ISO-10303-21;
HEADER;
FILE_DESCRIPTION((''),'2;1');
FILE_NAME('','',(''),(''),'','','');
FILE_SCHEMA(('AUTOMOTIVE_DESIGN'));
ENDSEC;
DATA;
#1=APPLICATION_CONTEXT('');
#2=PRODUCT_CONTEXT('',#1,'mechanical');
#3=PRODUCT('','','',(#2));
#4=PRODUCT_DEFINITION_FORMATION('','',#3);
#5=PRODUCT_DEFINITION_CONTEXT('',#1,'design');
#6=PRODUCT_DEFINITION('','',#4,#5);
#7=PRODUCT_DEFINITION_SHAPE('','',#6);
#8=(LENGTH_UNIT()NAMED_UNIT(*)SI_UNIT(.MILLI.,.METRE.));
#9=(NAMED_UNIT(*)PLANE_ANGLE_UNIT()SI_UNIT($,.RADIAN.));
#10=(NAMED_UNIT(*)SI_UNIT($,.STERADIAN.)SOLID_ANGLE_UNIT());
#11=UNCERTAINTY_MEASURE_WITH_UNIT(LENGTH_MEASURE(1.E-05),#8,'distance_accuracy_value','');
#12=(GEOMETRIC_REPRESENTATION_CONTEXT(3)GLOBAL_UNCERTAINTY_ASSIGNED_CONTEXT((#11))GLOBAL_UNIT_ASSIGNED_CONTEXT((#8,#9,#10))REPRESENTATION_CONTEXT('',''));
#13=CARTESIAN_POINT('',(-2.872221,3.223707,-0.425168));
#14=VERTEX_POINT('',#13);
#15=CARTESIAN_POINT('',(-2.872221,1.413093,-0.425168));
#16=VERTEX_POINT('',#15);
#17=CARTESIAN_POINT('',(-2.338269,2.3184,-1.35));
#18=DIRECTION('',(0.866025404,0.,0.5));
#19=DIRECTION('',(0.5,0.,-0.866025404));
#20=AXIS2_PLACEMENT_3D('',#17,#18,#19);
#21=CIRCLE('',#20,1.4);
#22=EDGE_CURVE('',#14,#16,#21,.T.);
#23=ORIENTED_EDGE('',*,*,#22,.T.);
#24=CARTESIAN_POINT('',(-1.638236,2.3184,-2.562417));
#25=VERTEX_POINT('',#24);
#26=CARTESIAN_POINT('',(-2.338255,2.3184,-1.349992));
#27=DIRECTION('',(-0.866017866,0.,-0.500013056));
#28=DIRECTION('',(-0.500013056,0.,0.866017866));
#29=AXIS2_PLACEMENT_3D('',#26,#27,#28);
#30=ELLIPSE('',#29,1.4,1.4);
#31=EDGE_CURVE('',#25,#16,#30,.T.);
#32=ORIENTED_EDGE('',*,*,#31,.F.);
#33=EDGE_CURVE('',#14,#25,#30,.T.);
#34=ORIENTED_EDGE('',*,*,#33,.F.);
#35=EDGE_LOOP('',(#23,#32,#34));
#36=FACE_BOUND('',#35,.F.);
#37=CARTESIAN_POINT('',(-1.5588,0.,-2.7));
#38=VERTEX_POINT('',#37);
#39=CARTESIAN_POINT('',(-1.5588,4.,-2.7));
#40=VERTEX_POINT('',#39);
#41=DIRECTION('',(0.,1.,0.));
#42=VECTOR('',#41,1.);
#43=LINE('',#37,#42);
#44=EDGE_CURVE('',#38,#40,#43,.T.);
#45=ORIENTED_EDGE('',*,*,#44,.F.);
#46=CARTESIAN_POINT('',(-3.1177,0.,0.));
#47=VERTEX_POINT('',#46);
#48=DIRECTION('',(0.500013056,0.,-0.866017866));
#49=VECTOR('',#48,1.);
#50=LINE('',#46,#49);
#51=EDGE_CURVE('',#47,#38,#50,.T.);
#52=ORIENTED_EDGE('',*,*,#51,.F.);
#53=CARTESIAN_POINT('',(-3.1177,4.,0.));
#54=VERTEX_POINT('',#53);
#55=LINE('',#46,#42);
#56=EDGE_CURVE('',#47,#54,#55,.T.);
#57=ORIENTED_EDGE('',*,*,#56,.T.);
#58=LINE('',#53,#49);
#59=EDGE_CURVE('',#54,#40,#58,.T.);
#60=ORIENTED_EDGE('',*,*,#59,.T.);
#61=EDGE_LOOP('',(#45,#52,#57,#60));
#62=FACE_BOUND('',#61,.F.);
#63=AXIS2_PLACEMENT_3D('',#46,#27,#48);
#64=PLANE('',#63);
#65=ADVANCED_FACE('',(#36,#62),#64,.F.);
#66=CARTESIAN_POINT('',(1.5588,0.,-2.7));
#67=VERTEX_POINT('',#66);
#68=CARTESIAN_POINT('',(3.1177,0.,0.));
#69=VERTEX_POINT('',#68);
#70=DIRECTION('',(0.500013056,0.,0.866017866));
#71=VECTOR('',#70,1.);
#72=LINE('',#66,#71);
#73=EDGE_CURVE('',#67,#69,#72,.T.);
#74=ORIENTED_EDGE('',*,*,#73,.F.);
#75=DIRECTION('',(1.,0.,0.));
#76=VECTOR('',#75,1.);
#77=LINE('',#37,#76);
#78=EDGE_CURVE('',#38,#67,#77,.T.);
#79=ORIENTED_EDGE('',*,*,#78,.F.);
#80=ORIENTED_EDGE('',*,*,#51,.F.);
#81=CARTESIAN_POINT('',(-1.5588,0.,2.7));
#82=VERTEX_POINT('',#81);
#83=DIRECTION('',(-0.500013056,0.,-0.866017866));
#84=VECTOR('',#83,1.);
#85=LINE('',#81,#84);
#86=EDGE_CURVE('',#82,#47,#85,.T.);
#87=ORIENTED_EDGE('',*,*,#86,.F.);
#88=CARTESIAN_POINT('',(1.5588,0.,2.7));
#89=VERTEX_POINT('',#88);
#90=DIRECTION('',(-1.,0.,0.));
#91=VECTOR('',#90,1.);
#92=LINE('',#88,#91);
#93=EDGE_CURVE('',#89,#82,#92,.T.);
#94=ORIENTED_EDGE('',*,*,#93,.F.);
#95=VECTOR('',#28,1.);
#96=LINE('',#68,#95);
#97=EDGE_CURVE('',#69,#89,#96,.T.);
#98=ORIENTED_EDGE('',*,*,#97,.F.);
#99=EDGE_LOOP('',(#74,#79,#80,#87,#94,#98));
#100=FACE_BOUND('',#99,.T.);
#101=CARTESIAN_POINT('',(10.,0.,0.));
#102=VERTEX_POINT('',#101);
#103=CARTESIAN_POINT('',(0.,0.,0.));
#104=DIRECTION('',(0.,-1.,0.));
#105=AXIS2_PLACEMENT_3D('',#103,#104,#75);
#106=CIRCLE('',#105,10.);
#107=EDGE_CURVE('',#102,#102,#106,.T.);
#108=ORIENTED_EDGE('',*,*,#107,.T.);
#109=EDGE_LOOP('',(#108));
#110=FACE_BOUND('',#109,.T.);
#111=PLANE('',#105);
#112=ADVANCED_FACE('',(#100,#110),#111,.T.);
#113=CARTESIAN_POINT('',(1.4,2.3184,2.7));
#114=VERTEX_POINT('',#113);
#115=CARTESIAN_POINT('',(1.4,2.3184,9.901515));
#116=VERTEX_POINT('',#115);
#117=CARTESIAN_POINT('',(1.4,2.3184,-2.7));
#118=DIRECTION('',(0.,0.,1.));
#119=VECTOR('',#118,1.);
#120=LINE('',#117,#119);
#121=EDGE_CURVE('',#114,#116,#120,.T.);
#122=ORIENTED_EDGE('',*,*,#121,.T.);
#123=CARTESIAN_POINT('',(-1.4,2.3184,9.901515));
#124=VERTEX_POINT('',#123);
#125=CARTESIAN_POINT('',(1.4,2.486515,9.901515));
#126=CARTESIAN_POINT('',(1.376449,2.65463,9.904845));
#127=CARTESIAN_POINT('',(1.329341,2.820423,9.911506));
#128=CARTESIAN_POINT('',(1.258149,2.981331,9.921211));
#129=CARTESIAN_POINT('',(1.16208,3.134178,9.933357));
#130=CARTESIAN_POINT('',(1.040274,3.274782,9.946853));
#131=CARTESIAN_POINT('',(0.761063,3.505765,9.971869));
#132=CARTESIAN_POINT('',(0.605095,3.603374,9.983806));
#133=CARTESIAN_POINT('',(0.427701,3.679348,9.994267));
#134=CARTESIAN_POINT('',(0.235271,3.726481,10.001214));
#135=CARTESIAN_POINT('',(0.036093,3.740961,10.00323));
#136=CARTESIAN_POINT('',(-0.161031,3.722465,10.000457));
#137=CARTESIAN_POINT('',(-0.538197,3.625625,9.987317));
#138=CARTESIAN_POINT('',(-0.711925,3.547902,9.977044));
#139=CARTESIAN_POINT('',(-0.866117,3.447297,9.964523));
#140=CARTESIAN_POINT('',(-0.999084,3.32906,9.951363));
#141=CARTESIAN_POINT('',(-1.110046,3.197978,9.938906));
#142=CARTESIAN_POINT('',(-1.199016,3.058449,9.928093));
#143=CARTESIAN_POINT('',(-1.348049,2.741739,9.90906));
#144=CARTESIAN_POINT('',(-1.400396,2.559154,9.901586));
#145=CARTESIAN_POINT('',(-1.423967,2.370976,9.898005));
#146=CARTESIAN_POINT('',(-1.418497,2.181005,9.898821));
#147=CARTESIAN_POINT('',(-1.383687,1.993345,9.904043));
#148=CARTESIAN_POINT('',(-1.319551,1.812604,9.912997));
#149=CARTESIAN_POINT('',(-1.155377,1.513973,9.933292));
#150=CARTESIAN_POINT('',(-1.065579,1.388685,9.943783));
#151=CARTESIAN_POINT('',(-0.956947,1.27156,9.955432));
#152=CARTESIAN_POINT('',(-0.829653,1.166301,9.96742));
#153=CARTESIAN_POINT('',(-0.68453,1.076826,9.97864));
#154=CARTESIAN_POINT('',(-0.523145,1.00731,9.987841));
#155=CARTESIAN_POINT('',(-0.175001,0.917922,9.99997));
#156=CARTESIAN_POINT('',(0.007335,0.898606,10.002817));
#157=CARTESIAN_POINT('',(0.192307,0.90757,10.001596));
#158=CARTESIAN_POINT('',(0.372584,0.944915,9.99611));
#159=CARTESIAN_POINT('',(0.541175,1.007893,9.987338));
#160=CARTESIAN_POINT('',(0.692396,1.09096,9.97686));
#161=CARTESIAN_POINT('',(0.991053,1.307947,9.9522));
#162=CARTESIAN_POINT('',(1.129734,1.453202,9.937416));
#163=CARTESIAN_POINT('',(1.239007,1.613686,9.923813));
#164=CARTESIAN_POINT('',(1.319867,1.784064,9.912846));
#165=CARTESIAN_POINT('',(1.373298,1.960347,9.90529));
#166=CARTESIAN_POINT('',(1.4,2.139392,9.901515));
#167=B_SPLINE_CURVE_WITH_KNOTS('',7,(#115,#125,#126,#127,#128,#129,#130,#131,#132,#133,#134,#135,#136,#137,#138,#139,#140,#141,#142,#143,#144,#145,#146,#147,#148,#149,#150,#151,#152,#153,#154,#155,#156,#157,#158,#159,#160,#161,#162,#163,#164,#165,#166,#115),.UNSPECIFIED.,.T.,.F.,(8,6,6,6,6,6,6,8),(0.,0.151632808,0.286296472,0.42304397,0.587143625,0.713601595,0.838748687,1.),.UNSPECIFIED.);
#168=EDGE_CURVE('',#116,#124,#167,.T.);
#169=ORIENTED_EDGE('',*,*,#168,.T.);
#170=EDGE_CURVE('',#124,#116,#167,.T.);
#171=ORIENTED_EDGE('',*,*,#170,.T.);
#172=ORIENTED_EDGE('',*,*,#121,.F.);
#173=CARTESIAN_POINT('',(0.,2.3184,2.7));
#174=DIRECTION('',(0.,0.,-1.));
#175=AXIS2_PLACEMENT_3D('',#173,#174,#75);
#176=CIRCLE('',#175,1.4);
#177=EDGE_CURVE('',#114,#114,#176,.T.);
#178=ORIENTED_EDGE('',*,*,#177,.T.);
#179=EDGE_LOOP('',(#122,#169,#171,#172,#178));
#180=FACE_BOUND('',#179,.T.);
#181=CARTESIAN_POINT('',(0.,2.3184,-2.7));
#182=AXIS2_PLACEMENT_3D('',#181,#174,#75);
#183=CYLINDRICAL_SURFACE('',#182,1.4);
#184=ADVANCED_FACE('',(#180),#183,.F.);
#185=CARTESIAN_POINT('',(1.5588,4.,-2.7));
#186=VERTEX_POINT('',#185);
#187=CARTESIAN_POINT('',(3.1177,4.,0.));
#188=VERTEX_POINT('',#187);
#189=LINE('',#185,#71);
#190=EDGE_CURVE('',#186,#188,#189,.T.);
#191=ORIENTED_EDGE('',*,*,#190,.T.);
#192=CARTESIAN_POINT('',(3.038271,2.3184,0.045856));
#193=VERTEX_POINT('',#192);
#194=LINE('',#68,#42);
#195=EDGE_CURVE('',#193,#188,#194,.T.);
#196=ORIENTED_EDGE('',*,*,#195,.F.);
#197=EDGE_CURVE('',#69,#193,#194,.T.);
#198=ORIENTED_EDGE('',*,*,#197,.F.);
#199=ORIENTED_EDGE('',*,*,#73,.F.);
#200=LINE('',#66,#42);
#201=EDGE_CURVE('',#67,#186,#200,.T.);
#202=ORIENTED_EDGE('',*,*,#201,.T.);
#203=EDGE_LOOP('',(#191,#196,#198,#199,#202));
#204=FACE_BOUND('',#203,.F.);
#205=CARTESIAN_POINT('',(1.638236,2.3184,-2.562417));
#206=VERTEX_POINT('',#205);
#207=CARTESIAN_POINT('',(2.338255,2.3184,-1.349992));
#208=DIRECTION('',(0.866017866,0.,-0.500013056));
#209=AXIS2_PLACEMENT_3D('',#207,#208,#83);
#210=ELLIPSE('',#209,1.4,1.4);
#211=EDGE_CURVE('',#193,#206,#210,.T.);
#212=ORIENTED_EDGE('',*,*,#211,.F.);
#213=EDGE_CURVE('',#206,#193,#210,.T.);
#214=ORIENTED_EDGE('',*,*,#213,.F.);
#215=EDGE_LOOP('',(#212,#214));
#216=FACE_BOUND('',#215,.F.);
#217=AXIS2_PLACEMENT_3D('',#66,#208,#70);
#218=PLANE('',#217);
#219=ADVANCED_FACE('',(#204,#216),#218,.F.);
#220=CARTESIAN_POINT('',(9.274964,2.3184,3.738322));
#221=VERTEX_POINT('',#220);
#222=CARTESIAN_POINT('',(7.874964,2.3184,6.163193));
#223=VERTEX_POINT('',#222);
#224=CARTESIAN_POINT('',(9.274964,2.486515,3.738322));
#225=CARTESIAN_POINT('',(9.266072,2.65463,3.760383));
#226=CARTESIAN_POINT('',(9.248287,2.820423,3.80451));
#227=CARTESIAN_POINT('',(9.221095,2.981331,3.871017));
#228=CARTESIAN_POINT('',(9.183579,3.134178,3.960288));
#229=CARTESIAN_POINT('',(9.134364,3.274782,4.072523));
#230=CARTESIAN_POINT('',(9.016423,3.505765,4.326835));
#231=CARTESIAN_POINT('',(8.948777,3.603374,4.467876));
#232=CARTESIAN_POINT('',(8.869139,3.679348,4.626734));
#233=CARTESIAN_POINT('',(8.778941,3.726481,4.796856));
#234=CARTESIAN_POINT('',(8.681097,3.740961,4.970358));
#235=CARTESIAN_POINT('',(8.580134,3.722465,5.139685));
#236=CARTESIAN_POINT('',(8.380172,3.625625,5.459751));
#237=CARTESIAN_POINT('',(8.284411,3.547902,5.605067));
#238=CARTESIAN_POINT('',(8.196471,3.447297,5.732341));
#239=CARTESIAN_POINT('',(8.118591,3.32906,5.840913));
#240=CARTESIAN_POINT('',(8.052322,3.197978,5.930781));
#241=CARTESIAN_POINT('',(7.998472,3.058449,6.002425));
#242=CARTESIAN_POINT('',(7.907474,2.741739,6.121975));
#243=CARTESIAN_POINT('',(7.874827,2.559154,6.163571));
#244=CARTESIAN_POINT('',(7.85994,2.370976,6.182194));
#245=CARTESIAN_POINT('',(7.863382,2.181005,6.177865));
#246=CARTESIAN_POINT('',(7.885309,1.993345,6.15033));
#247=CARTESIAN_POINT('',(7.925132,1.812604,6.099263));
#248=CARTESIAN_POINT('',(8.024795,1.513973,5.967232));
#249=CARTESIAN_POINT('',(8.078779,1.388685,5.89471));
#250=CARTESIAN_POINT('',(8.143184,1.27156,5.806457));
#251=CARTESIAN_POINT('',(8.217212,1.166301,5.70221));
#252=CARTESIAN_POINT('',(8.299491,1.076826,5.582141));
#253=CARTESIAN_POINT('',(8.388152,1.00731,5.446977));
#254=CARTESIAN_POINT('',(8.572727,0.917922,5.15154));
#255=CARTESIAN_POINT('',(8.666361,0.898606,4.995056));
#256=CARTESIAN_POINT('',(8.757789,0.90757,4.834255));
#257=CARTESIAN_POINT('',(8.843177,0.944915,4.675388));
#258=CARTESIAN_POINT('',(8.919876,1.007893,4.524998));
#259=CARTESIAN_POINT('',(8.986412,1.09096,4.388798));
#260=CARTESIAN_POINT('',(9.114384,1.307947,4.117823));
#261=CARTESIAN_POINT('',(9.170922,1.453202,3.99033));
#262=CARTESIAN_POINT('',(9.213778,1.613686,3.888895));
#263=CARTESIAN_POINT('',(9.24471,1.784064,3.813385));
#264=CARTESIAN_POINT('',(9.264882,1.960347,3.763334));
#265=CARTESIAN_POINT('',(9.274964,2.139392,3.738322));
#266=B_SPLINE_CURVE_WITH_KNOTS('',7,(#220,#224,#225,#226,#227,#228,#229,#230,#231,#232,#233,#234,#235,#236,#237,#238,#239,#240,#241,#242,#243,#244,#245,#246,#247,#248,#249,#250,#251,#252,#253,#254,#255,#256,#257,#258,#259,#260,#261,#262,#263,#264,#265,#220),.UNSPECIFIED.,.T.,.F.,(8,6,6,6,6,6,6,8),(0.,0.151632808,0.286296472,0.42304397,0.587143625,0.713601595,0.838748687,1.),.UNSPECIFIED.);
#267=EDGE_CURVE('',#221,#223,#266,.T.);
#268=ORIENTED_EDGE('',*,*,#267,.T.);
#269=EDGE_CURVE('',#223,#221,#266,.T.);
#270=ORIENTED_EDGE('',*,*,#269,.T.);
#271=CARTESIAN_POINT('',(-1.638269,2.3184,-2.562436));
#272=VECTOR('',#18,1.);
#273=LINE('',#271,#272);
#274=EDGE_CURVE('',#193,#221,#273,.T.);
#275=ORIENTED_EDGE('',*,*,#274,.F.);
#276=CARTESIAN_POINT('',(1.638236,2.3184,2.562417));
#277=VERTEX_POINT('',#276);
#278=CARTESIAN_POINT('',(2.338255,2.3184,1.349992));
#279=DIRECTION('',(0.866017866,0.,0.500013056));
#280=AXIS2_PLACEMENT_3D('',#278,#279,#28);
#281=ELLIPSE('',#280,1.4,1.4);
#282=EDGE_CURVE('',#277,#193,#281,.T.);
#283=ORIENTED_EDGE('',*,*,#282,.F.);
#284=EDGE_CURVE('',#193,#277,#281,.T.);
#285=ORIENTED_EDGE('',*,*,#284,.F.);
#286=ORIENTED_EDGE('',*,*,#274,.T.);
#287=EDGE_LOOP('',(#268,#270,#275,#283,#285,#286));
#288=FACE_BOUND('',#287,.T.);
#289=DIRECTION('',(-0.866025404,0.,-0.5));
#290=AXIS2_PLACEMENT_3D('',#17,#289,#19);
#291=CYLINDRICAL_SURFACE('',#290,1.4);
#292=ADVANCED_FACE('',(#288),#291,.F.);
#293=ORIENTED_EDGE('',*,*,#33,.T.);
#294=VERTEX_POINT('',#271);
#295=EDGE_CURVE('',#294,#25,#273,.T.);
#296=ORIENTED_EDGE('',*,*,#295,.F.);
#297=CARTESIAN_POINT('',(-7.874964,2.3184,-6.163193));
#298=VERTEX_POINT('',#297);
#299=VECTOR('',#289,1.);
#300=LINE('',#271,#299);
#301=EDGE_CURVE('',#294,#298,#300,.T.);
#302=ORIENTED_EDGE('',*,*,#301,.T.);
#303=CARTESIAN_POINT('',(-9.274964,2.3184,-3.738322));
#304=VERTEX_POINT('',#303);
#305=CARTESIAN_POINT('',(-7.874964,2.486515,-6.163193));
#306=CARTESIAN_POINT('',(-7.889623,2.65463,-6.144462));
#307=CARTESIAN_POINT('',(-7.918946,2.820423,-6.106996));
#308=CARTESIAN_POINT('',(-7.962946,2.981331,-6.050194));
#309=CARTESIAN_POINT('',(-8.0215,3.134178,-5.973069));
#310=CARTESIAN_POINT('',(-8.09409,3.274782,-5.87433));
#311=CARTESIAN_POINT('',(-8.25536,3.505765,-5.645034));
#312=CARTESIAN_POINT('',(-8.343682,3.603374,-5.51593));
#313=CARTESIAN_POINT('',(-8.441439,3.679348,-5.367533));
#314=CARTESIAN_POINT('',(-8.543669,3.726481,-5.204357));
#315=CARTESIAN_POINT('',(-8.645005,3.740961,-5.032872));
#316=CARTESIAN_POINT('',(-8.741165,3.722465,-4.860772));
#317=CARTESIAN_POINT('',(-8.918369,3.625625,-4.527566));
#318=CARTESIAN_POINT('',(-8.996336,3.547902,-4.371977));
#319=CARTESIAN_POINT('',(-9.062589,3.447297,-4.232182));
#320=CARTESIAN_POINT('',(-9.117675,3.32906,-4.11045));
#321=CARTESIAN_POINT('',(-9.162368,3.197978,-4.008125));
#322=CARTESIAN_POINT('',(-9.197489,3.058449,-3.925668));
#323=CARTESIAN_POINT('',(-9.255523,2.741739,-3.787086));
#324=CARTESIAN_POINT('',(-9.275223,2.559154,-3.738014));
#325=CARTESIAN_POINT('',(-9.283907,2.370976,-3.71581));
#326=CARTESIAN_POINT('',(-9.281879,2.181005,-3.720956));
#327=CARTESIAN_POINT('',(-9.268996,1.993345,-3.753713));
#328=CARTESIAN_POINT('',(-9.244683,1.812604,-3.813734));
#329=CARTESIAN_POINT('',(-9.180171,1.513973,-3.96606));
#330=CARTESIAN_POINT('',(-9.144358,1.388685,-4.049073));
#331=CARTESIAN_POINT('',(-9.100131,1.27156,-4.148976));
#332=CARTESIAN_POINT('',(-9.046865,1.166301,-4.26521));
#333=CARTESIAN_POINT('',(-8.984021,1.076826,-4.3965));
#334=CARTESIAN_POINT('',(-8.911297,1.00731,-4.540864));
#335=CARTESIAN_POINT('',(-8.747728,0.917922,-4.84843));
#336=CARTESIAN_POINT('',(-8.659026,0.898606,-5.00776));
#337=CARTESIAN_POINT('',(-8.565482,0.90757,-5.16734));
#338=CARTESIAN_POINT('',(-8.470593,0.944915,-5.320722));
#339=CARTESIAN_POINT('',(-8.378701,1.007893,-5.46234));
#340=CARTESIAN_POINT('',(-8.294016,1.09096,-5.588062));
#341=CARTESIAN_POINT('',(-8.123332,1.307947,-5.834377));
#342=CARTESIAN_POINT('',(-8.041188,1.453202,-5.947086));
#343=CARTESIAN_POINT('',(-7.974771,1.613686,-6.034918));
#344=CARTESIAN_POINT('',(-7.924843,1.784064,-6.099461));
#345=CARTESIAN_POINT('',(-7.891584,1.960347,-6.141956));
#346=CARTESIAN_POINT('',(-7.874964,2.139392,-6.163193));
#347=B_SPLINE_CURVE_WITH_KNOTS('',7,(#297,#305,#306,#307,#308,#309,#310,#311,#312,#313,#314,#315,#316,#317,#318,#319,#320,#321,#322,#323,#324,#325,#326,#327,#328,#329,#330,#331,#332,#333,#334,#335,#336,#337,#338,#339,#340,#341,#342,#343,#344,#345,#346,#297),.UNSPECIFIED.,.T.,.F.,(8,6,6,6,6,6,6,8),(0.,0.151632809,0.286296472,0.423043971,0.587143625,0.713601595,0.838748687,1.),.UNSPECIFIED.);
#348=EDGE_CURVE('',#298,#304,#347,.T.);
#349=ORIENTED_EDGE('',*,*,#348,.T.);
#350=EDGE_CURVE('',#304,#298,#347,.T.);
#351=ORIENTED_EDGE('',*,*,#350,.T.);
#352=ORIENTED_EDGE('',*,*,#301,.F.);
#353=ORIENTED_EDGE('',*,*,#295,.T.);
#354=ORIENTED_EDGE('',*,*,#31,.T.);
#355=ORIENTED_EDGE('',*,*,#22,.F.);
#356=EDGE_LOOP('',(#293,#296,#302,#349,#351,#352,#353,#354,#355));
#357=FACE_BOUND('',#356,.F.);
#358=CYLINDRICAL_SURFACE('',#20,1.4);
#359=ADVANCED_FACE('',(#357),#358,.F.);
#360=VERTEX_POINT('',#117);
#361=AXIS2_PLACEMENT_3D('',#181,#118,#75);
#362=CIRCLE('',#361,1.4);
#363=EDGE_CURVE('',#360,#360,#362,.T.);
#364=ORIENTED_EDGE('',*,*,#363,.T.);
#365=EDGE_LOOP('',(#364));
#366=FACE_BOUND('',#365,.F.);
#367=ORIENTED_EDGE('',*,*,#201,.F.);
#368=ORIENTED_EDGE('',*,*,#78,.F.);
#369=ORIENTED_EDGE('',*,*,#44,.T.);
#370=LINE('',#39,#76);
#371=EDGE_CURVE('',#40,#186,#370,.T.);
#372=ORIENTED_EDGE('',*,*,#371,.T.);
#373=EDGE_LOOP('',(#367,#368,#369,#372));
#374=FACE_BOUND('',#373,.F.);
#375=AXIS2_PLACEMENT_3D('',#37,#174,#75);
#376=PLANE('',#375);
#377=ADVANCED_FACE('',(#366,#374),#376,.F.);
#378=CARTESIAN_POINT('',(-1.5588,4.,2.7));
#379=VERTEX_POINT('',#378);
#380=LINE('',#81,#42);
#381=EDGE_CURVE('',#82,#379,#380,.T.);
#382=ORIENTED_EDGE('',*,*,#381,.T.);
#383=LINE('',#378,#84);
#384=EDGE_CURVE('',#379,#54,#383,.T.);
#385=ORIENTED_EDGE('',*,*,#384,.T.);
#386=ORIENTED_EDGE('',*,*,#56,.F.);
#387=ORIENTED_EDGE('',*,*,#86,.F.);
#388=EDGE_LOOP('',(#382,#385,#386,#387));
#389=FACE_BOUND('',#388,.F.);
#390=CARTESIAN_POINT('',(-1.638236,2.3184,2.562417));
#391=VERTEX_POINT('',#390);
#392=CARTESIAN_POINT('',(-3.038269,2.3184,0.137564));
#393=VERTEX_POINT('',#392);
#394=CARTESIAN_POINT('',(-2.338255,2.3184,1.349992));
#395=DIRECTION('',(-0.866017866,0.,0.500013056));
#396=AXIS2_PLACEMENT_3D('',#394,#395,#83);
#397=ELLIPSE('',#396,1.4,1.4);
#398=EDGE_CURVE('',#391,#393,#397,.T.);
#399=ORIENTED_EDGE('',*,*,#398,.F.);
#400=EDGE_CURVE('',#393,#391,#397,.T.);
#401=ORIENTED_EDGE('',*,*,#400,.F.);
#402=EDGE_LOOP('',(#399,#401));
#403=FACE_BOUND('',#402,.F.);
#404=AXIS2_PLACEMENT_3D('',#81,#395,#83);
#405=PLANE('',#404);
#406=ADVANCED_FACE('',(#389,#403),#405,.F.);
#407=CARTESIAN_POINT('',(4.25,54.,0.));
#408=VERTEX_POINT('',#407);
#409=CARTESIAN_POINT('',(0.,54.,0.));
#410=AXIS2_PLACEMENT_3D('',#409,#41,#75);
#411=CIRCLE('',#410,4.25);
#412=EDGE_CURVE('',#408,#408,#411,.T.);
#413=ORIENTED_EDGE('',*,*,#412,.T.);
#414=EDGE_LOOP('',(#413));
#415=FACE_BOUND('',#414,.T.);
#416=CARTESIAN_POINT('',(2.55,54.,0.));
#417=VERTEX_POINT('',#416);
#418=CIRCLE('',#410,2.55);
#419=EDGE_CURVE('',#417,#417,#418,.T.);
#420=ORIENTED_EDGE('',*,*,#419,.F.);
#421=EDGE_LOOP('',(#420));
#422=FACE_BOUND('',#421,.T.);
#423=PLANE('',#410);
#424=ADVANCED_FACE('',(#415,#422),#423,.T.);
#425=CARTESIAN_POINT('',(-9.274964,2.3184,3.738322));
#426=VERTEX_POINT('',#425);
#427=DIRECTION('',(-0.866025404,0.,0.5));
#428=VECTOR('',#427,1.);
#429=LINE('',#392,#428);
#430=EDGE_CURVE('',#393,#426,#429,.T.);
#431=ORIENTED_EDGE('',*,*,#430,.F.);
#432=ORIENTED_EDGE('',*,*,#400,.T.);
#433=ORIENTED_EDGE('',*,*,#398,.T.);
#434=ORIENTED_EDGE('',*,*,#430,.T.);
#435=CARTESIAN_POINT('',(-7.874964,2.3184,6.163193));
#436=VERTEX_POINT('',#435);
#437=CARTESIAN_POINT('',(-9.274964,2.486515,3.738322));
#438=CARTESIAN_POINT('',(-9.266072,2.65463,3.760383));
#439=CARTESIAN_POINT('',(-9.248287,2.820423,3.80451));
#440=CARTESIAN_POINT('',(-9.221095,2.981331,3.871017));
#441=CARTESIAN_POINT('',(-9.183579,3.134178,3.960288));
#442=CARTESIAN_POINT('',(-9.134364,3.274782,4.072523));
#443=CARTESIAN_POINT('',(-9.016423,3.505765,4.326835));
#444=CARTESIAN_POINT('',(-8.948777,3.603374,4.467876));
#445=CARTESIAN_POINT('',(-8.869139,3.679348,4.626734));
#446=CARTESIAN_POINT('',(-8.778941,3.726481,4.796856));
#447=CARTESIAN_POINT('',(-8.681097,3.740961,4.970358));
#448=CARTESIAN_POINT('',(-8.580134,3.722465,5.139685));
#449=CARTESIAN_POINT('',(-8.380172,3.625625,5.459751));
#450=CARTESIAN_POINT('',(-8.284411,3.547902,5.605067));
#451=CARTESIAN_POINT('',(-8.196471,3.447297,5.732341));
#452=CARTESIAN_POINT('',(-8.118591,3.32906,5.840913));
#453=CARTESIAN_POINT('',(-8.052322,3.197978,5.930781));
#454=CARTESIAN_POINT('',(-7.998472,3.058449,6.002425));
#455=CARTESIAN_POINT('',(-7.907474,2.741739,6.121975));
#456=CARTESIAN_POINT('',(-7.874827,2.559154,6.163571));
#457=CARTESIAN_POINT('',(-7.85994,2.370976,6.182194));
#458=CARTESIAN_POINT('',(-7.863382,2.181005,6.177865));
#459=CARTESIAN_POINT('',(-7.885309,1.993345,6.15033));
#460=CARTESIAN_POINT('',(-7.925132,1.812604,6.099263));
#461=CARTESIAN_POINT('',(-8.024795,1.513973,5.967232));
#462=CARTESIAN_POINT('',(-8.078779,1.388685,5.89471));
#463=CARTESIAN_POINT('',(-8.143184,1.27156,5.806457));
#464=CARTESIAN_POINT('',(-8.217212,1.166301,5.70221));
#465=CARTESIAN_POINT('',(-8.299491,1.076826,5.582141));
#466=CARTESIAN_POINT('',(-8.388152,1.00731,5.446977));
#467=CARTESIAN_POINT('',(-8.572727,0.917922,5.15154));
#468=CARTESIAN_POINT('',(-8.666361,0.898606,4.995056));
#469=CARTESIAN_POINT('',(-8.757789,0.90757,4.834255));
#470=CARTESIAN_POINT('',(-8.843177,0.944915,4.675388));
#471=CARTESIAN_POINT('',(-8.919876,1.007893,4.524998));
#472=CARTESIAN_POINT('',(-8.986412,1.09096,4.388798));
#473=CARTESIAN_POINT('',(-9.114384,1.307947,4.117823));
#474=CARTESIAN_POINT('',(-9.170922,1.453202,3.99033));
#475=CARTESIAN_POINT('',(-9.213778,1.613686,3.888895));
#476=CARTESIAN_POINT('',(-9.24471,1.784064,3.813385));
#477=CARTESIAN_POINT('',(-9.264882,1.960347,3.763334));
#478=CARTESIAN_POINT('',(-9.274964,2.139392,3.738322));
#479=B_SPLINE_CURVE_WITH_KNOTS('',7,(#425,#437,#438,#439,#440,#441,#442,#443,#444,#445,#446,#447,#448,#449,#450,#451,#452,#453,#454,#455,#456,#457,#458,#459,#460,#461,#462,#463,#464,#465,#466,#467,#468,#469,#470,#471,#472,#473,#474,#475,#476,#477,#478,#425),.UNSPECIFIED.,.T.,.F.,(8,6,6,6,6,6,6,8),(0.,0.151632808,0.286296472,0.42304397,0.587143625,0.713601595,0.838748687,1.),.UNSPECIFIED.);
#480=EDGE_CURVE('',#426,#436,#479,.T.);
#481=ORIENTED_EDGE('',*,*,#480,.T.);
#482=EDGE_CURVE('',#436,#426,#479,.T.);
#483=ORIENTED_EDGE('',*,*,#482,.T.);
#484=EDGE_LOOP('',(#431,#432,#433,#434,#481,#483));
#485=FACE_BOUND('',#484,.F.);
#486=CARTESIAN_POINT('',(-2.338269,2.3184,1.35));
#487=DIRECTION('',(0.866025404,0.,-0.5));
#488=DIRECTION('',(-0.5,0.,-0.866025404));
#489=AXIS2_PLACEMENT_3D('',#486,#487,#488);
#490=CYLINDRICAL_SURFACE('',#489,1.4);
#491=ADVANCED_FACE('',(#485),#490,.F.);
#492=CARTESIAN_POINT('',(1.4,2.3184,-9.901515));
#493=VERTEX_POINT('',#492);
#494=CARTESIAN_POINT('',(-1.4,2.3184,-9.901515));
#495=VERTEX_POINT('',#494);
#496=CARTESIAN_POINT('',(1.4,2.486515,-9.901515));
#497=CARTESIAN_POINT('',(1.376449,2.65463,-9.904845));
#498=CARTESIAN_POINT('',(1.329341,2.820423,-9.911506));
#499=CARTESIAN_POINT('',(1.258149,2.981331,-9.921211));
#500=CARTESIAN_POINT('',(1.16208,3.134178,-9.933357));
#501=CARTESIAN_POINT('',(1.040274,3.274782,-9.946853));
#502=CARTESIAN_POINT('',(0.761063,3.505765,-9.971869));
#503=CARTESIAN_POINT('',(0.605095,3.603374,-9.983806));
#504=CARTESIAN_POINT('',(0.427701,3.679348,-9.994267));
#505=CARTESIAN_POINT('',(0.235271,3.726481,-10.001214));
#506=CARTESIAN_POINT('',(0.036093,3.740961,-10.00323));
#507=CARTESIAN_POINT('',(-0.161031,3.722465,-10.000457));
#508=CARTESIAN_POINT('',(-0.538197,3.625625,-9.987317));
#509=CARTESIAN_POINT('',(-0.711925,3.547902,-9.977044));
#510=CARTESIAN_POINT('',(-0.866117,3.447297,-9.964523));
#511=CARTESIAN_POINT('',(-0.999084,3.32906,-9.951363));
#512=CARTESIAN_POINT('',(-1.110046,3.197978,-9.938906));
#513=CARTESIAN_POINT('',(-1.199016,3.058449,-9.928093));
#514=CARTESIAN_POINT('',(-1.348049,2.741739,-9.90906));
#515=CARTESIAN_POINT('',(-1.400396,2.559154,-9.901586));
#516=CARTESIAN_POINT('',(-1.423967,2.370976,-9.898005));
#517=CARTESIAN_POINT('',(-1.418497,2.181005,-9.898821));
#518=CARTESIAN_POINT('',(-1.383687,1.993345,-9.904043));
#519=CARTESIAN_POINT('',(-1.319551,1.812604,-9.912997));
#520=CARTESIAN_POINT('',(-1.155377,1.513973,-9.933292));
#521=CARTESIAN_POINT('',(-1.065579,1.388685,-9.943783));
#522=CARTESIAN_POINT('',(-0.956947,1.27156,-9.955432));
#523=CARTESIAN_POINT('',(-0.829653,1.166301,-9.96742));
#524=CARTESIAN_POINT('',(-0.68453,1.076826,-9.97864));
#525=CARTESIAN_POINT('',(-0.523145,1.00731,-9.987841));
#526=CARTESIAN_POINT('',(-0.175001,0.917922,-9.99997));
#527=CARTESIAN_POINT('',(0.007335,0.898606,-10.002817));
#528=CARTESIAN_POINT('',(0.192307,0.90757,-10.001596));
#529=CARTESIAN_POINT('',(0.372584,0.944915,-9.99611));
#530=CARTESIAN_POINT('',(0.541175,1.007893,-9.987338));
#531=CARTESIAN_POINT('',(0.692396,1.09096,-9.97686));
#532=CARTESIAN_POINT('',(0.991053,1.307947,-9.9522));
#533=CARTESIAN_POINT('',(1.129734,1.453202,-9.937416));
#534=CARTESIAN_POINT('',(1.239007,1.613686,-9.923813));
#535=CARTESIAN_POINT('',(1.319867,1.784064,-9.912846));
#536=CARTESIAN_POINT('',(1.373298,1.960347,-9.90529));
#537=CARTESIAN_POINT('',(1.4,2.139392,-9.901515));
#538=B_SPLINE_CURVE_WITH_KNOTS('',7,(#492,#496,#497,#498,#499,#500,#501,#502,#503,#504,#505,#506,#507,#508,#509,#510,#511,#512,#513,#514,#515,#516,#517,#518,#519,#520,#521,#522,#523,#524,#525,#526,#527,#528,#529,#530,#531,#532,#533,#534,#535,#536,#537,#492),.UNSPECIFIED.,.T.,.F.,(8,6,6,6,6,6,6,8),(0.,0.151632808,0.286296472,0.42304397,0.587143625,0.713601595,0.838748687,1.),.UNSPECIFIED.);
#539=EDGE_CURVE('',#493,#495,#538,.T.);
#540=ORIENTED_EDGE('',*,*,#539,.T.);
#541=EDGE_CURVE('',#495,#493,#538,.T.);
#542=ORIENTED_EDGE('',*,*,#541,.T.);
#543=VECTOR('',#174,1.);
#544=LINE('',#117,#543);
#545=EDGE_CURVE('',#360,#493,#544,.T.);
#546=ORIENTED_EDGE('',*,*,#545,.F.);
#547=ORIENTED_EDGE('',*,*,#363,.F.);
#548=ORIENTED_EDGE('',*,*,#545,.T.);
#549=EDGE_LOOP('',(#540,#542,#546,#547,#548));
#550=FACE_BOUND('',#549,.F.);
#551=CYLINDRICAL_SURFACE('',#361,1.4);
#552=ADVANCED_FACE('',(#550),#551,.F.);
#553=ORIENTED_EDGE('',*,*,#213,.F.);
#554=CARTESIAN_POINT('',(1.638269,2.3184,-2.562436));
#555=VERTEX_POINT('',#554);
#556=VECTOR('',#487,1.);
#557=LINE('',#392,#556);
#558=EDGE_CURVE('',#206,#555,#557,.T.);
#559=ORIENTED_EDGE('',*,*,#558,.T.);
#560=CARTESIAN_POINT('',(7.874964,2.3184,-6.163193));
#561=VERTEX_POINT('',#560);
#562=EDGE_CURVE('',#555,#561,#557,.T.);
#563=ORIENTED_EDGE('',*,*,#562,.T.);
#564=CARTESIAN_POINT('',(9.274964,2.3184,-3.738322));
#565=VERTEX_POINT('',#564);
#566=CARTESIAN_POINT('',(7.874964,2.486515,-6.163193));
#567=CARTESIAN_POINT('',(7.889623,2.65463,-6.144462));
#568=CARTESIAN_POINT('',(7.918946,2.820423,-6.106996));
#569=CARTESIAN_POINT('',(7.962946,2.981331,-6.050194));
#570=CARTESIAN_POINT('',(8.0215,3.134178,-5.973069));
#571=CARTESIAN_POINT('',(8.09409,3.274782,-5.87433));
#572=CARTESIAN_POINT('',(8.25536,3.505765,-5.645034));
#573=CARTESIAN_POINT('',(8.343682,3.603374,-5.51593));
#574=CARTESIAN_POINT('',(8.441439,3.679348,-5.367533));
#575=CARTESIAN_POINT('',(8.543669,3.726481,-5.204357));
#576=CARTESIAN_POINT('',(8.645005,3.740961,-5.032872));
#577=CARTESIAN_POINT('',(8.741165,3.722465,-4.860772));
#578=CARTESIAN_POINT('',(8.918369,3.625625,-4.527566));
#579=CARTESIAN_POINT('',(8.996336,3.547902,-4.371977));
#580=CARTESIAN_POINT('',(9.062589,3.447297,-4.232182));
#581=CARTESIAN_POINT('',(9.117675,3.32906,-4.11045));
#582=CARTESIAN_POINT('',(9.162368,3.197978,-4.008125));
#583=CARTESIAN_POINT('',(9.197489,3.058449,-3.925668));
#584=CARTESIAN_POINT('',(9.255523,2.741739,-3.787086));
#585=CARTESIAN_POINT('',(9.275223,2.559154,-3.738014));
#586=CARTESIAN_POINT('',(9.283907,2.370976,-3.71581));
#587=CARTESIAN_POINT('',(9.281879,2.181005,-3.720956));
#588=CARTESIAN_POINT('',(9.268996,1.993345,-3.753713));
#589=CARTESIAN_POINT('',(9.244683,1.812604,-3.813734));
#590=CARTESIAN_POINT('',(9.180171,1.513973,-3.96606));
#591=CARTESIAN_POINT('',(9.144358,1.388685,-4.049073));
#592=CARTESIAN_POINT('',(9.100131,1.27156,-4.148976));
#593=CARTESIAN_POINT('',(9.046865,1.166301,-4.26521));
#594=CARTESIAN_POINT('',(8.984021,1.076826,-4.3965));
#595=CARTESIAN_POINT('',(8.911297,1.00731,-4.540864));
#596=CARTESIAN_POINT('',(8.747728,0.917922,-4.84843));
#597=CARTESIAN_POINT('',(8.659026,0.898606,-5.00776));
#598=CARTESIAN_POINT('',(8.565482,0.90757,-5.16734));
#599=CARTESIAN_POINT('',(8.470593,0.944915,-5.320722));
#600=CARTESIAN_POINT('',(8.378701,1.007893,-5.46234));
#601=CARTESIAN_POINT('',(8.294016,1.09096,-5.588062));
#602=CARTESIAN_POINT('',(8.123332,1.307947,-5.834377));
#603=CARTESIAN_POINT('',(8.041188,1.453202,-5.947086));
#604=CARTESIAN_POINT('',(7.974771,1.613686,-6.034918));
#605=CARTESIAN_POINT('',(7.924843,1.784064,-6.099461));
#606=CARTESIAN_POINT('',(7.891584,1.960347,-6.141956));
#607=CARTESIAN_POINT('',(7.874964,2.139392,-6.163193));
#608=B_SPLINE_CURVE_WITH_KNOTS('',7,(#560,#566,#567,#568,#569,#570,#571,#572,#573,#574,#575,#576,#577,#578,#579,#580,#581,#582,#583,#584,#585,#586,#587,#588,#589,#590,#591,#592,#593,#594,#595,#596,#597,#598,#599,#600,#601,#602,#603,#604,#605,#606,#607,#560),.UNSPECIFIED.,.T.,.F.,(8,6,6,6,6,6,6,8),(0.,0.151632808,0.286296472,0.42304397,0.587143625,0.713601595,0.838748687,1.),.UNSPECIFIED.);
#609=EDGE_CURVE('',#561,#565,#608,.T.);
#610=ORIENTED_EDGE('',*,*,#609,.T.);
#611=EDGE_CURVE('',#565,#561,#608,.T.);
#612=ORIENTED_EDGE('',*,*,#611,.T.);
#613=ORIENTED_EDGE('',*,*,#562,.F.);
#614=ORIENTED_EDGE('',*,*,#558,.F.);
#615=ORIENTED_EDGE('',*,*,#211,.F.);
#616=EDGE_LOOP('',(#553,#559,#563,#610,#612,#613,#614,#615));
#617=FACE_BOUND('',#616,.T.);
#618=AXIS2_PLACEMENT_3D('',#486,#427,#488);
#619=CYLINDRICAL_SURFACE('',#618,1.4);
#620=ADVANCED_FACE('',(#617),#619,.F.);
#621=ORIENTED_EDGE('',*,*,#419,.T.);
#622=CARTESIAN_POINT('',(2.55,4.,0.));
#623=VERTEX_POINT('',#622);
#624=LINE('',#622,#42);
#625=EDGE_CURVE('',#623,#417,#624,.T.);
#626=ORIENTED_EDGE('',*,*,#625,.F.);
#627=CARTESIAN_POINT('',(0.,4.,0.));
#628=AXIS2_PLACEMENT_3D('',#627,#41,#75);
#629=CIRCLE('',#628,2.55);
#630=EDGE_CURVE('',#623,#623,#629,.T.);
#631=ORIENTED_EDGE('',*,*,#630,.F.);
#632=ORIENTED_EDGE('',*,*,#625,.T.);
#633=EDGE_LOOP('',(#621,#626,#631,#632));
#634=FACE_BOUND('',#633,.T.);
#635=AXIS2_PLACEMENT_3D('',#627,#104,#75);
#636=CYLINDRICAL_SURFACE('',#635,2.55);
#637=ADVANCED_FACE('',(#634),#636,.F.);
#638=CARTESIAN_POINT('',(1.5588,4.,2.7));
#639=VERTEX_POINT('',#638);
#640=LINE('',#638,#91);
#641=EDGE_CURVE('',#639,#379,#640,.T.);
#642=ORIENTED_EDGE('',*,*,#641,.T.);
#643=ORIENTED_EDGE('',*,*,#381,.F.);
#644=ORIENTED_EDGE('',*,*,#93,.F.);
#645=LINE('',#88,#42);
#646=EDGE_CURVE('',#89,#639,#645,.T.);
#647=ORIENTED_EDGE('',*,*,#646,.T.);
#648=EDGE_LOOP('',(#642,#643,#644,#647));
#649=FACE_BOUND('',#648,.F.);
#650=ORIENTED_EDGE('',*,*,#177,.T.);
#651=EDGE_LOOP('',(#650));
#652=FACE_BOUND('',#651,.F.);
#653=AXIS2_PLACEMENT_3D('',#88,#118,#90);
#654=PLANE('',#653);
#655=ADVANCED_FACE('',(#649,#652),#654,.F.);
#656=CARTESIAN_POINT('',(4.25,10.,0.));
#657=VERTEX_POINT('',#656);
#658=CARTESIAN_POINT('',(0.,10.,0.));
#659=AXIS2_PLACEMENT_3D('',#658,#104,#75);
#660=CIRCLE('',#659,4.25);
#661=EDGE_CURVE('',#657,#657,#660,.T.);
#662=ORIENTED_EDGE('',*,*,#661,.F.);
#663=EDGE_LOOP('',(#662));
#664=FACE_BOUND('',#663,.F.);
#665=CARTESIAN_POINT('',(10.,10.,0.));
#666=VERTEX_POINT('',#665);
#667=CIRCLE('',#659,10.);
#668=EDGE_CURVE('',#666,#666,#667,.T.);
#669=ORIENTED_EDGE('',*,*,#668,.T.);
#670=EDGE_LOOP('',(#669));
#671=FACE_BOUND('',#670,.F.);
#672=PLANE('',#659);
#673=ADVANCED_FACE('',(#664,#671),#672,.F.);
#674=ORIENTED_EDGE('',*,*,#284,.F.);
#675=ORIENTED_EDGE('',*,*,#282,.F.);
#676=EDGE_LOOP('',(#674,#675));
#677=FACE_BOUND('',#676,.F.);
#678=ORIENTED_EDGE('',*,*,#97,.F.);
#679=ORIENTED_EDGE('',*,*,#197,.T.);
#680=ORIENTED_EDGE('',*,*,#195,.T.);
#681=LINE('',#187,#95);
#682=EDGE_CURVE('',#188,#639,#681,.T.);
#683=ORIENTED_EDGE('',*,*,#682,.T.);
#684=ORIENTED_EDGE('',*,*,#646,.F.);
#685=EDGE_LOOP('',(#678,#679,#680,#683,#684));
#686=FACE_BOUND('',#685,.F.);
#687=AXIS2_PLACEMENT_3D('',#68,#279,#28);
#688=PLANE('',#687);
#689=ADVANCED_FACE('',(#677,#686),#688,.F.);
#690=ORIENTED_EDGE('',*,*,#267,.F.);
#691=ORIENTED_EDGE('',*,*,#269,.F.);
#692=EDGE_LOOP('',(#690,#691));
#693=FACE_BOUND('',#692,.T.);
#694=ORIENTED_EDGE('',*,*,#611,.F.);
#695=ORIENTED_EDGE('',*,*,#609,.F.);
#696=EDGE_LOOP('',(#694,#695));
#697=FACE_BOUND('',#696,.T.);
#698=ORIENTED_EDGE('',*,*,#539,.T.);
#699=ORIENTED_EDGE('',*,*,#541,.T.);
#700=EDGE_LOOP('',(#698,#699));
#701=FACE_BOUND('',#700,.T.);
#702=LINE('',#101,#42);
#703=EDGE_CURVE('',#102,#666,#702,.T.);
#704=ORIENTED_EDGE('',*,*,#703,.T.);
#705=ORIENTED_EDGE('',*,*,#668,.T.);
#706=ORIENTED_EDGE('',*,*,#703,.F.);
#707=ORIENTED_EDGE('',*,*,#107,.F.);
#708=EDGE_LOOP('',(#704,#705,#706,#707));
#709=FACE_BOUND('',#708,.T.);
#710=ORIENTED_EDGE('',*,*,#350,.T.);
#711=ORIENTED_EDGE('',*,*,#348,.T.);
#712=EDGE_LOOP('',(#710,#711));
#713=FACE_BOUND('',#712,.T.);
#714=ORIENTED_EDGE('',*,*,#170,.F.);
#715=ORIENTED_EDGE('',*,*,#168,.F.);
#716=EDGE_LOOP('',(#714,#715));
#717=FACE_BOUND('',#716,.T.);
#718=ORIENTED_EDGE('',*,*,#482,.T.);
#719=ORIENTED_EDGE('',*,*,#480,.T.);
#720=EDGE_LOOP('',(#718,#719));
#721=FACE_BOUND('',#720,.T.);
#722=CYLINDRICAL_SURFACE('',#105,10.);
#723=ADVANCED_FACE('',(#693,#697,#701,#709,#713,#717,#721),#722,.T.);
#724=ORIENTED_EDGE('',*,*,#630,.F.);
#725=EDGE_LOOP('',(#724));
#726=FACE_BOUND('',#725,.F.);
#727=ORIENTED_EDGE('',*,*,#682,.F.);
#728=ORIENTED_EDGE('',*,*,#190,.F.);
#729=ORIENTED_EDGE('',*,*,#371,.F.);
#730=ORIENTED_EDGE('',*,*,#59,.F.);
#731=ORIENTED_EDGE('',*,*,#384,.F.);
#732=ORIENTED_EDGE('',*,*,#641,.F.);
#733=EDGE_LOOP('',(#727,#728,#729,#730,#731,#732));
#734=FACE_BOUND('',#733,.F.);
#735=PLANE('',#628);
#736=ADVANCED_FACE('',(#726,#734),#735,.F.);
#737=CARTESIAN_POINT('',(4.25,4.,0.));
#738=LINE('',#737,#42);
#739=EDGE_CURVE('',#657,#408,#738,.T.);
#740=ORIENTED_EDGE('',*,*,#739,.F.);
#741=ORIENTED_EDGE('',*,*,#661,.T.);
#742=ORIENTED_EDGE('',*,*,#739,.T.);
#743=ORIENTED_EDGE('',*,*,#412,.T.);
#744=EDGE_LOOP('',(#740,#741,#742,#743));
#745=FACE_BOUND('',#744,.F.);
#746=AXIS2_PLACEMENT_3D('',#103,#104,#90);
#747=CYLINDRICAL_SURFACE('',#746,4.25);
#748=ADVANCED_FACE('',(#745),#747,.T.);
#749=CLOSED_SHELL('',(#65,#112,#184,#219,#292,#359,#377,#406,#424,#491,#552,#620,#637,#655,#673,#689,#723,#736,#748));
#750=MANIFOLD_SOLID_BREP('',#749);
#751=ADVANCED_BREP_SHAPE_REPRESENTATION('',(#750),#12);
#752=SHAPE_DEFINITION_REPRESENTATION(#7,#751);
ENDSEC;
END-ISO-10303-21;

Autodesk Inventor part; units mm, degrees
ref_plane "YZ Plane" through (0, 0, 0) normal (1, 0, 0) x (0, 1, 0)
ref_plane "XZ Plane" through (0, 0, 0) normal (0, 1, 0) x (-1, 0, 0)
ref_plane "XY Plane" through (0, 0, 0) normal (0, 0, 1) x (1, 0, 0)
sketch "Sketch8" plane through (0, 0, 0) normal (0, 1, 0) x (-1, 0, 0)
  circle A0 centre (0, 0) radius 4.25
  line L0 (-1.5588, -2.7) -> (-3.1177, 0)
  line L1 (-3.1177, 0) -> (-1.5588, 2.7)
  line L2 (-1.5588, 2.7) -> (1.5588, 2.7)
  line L3 (1.5588, 2.7) -> (3.1177, 0)
  line L4 (3.1177, 0) -> (1.5588, -2.7)
  line L5 (1.5588, -2.7) -> (-1.5588, -2.7)
  line L6 (-5.95, 0) -> (5.95, 0) projected
  dimension "d57" = 8.5
  dimension "d58" = 5.4
extrude "Extrusion7" add sketch "Sketch8" along normal blind 4 contours L6 L3 L2 L1 A0 | A0 L6 L0 L5 L4
sketch "Sketch9" plane through (0, 4, 0) normal (0, 1, 0) x (1, 0, 0)
  circle A0 centre (0, 0) radius 4.25 projected
  line L0 (-3.1177, 0) -> (-1.5588, 2.7) projected
  line L1 (-1.5588, 2.7) -> (1.5588, 2.7) projected
  line L2 (1.5588, 2.7) -> (3.1177, 0) projected
  line L3 (3.1177, 0) -> (1.5588, -2.7) projected
  line L4 (1.5588, -2.7) -> (-1.5588, -2.7) projected
  line L5 (-1.5588, -2.7) -> (-3.1177, 0) projected
  circle A1 centre (0, 0) radius 2.55
  dimension "d61" = 5.1
extrude "Extrusion8" add sketch "Sketch9" along normal blind 50 contours A0 | L0 L1 L2 L3 L4 L5
sketch "Sketch11" plane through (0, 0, 0) normal (0, -1, 0) x (1, 0, 0)
  circle A0 centre (0, 0) radius 4.25 projected
  circle A1 centre (0, 0) radius 10
  dimension "d71" = 20
extrude "Extrusion10" add sketch "Sketch11" against normal blind 10
sketch "Sketch12" plane through (-1.5588, 0, -2.7) normal (0, 0, 1) x (1, 0, 0)
  line L0 (0, 0) -> (0, 4) projected
  line L1 (4.6765, 0) -> (4.6765, 4) projected
  circle A0 centre (1.5588, 2.3184) radius 1.4
  point P0 (1.5588, 0)
  dimension "d74" = 2.8
extrude "Extrusion11" cut sketch "Sketch12" along normal through all both and the other way through all
pattern_circular "Circular Pattern5" count 6 over 360 about axis through (0, 0, 0) along (0, 1, 0) of "Extrusion11"
properties part number "30_Cube_Z_Focus_MGN_NEMA_Motorcoupling_Captive_v3"
